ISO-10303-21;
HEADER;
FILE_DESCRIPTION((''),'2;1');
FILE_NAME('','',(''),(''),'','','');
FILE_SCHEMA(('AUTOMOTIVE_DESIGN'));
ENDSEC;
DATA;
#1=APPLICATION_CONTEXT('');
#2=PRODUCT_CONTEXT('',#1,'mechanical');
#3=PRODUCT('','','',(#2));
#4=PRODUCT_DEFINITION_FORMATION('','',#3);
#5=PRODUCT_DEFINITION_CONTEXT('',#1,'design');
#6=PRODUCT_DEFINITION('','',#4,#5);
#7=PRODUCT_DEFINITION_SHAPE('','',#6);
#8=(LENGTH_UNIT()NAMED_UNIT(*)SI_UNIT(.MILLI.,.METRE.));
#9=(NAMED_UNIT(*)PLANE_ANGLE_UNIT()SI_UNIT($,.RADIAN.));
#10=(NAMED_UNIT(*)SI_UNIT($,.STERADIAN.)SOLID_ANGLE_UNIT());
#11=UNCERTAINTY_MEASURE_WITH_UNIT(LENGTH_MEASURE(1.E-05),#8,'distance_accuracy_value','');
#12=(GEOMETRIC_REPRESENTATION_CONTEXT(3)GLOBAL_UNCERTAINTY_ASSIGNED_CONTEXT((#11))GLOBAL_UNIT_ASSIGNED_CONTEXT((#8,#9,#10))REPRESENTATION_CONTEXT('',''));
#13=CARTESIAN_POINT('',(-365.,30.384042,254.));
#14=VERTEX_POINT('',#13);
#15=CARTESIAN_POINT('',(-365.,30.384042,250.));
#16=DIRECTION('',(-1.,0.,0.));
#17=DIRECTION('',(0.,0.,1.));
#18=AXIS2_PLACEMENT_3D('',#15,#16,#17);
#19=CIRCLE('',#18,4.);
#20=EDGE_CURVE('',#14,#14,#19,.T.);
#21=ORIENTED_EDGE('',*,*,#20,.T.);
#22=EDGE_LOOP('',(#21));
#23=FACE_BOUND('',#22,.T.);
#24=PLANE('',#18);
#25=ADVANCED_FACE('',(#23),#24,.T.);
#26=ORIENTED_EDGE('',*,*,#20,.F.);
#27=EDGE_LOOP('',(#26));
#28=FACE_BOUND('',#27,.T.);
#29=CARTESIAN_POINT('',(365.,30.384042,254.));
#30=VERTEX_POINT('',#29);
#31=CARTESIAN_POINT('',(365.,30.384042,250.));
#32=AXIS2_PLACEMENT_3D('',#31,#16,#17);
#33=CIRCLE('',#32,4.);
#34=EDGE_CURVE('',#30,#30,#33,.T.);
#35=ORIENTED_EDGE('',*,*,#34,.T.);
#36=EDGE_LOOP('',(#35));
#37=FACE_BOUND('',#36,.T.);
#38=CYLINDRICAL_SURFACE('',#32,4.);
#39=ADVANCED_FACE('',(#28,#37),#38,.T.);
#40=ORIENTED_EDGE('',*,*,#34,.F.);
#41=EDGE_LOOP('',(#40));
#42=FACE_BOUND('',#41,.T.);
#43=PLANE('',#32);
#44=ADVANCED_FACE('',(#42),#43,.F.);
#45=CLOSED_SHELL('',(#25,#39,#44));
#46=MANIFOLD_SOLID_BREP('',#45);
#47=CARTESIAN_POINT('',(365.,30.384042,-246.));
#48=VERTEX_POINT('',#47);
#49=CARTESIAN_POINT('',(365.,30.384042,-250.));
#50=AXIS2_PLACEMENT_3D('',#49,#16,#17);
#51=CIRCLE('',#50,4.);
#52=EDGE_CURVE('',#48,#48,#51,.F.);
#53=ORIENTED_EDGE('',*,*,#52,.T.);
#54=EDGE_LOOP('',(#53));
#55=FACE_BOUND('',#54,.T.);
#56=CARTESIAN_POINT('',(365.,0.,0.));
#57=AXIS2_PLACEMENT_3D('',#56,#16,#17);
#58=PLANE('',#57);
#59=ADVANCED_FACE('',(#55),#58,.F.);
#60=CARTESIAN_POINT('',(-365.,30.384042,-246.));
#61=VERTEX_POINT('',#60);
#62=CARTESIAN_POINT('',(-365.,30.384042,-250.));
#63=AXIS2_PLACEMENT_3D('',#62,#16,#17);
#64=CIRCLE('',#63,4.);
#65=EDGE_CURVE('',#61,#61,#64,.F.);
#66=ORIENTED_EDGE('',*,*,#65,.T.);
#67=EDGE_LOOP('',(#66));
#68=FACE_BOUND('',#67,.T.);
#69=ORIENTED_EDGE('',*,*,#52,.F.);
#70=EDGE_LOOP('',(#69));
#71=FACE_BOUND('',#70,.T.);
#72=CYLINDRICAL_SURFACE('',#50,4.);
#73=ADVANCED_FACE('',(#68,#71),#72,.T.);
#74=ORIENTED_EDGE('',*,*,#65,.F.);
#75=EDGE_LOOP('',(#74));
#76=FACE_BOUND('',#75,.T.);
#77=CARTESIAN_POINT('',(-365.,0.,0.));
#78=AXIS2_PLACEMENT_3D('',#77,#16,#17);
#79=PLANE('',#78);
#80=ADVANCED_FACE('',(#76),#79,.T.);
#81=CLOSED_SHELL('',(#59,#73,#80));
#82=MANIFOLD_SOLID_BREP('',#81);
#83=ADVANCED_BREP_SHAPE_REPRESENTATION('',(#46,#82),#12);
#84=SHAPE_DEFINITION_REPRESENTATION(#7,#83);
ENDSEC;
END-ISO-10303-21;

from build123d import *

# Parameters (mm, degrees)
BOSS_EXTRUDE1_DEPTH   = 265
BOSS_EXTRUDE1_2_DEPTH = 265
BOSS_EXTRUDE2_DEPTH   = 335
SKETCH16_R            = 4
BOSS_EXTRUDE3_DEPTH   = 730
BOSS_EXTRUDE3_2_DEPTH = 730


with BuildPart() as part:
    # Sketch13 → Boss-Extrude1 (new, symmetric)
    with BuildSketch(Plane.XY):
        with BuildLine():
            Line((356.00446543, 0.899999619), (355.484852164, 0))
            Line((355.484852164, 0), (356.00446543, -0.899999619))
            Line((356.00446543, -0.899999619), (356.00446543, -4.204465866))
            Line((356.00446543, -4.204465866), (360.049999564, -8.25))
            Line((360.049999564, -8.25), (362.59999928, -8.25))
            ThreePointArc((362.59999928, -8.25), (362.741420837, -8.191421273), (362.799999564, -8.049999716))
            Line((362.799999564, -8.049999716), (362.799999564, -4.649999613))
            ThreePointArc((362.799999564, -4.649999613), (362.975735606, -4.225735278), (363.39999994, -4.049999237))
            Line((363.39999994, -4.049999237), (364.300000043, -4.049999237))
            ThreePointArc((364.300000043, -4.049999237), (364.4414216, -4.108577964), (364.500000327, -4.249999521))
            Line((364.500000327, -4.249999521), (364.500000327, -4.349998953))
            ThreePointArc((364.500000327, -4.349998953), (364.558579054, -4.49142051), (364.700000611, -4.549999237))
            Line((364.700000611, -4.549999237), (364.799999716, -4.549999237))
            ThreePointArc((364.799999716, -4.549999237), (364.941421273, -4.608577964), (365, -4.749999521))
            Line((365, -4.749999521), (365, -13.000000346))
            ThreePointArc((365, -13.000000346), (364.414213664, -14.414213664), (363.000000346, -15))
            Line((363.000000346, -15), (354.749999945, -15))
            ThreePointArc((354.749999945, -15), (354.60857832, -14.941421245), (354.549999564, -14.799999619))
            Line((354.549999564, -14.799999619), (354.549999564, -14.69999942))
            ThreePointArc((354.549999564, -14.69999942), (354.49142109, -14.558578474), (354.350000144, -14.5))
            Line((354.350000144, -14.5), (354.250000374, -14.5))
            ThreePointArc((354.250000374, -14.5), (354.108578753, -14.441421247), (354.05, -14.299999626))
            Line((354.05, -14.299999626), (354.05, -13.399999434))
            ThreePointArc((354.05, -13.399999434), (354.225735989, -12.975735226), (354.650000197, -12.799999237))
            Line((354.650000197, -12.799999237), (358.049999924, -12.799999237))
            ThreePointArc((358.049999924, -12.799999237), (358.191421565, -12.741420475), (358.250000327, -12.599998834))
            Line((358.250000327, -12.599998834), (358.250000327, -10.049999237))
            Line((358.250000327, -10.049999237), (354.204466193, -6))
            Line((354.204466193, -6), (350.899999946, -6))
            Line((350.899999946, -6), (350, -5.484851837))
            Line((350, -5.484851837), (349.100000054, -6))
            Line((349.100000054, -6), (345.795533807, -6))
            Line((345.795533807, -6), (341.749999673, -10.049999237))
            Line((341.749999673, -10.049999237), (341.749999673, -12.599998834))
            ThreePointArc((341.749999673, -12.599998834), (341.808578435, -12.741420475), (341.950000076, -12.799999237))
            Line((341.950000076, -12.799999237), (345.349999803, -12.799999237))
            ThreePointArc((345.349999803, -12.799999237), (345.774264011, -12.975735226), (345.95, -13.399999434))
            Line((345.95, -13.399999434), (345.95, -14.299999626))
            ThreePointArc((345.95, -14.299999626), (345.891421247, -14.441421247), (345.749999626, -14.5))
            Line((345.749999626, -14.5), (345.649999856, -14.5))
            ThreePointArc((345.649999856, -14.5), (345.50857891, -14.558578474), (345.450000436, -14.69999942))
            Line((345.450000436, -14.69999942), (345.450000436, -14.799999619))
            ThreePointArc((345.450000436, -14.799999619), (345.39142168, -14.941421245), (345.250000055, -15))
            Line((345.250000055, -15), (336.999999654, -15))
            ThreePointArc((336.999999654, -15), (335.585786336, -14.414213664), (335, -13.000000346))
            Line((335, -13.000000346), (335, -4.749999521))
            ThreePointArc((335, -4.749999521), (335.058578727, -4.608577964), (335.200000284, -4.549999237))
            Line((335.200000284, -4.549999237), (335.299999389, -4.549999237))
            ThreePointArc((335.299999389, -4.549999237), (335.441420946, -4.49142051), (335.499999673, -4.349998953))
            Line((335.499999673, -4.349998953), (335.499999673, -4.249999521))
            ThreePointArc((335.499999673, -4.249999521), (335.5585784, -4.108577964), (335.699999957, -4.049999237))
            Line((335.699999957, -4.049999237), (336.60000006, -4.049999237))
            ThreePointArc((336.60000006, -4.049999237), (337.024264394, -4.225735278), (337.200000436, -4.649999613))
            Line((337.200000436, -4.649999613), (337.200000436, -8.049999716))
            ThreePointArc((337.200000436, -8.049999716), (337.258579163, -8.191421273), (337.40000072, -8.25))
            Line((337.40000072, -8.25), (339.950000436, -8.25))
            Line((339.950000436, -8.25), (343.99553457, -4.204465866))
            Line((343.99553457, -4.204465866), (343.99553457, -0.899999619))
            Line((343.99553457, -0.899999619), (344.515147836, 0))
            Line((344.515147836, 0), (343.99553457, 0.899999619))
            Line((343.99553457, 0.899999619), (343.99553457, 4.204465866))
            Line((343.99553457, 4.204465866), (339.950000436, 8.25))
            Line((339.950000436, 8.25), (337.40000072, 8.25))
            ThreePointArc((337.40000072, 8.25), (337.258579163, 8.191421273), (337.200000436, 8.049999716))
            Line((337.200000436, 8.049999716), (337.200000436, 4.649999613))
            ThreePointArc((337.200000436, 4.649999613), (337.024264394, 4.225735278), (336.60000006, 4.049999237))
            Line((336.60000006, 4.049999237), (335.699999957, 4.049999237))
            ThreePointArc((335.699999957, 4.049999237), (335.5585784, 4.108577964), (335.499999673, 4.249999521))
            Line((335.499999673, 4.249999521), (335.499999673, 4.349998953))
            ThreePointArc((335.499999673, 4.349998953), (335.441420946, 4.49142051), (335.299999389, 4.549999237))
            Line((335.299999389, 4.549999237), (335.200000284, 4.549999237))
            ThreePointArc((335.200000284, 4.549999237), (335.058578727, 4.608577964), (335, 4.749999521))
            Line((335, 4.749999521), (335, 13.000000346))
            ThreePointArc((335, 13.000000346), (335.585786336, 14.414213664), (336.999999654, 15))
            Line((336.999999654, 15), (345.250000055, 15))
            ThreePointArc((345.250000055, 15), (345.39142168, 14.941421245), (345.450000436, 14.799999619))
            Line((345.450000436, 14.799999619), (345.450000436, 14.69999942))
            ThreePointArc((345.450000436, 14.69999942), (345.50857891, 14.558578474), (345.649999856, 14.5))
            Line((345.649999856, 14.5), (345.749999626, 14.5))
            ThreePointArc((345.749999626, 14.5), (345.891421247, 14.441421247), (345.95, 14.299999626))
            Line((345.95, 14.299999626), (345.95, 13.399999434))
            ThreePointArc((345.95, 13.399999434), (345.774264011, 12.975735226), (345.349999803, 12.799999237))
            Line((345.349999803, 12.799999237), (341.950000076, 12.799999237))
            ThreePointArc((341.950000076, 12.799999237), (341.808578435, 12.741420475), (341.749999673, 12.599998834))
            Line((341.749999673, 12.599998834), (341.749999673, 10.049999237))
            Line((341.749999673, 10.049999237), (345.795533807, 6))
            Line((345.795533807, 6), (349.100000054, 6))
            Line((349.100000054, 6), (350, 5.484851837))
            Line((350, 5.484851837), (350.899999946, 6))
            Line((350.899999946, 6), (354.204466193, 6))
            Line((354.204466193, 6), (358.250000327, 10.049999237))
            Line((358.250000327, 10.049999237), (358.250000327, 12.599998834))
            ThreePointArc((358.250000327, 12.599998834), (358.191421565, 12.741420475), (358.049999924, 12.799999237))
            Line((358.049999924, 12.799999237), (354.650000197, 12.799999237))
            ThreePointArc((354.650000197, 12.799999237), (354.225735989, 12.975735226), (354.05, 13.399999434))
            Line((354.05, 13.399999434), (354.05, 14.299999626))
            ThreePointArc((354.05, 14.299999626), (354.108578753, 14.441421247), (354.250000374, 14.5))
            Line((354.250000374, 14.5), (354.350000144, 14.5))
            ThreePointArc((354.350000144, 14.5), (354.49142109, 14.558578474), (354.549999564, 14.69999942))
            Line((354.549999564, 14.69999942), (354.549999564, 14.799999619))
            ThreePointArc((354.549999564, 14.799999619), (354.60857832, 14.941421245), (354.749999945, 15))
            Line((354.749999945, 15), (363.000000346, 15))
            ThreePointArc((363.000000346, 15), (364.414213664, 14.414213664), (365, 13.000000346))
            Line((365, 13.000000346), (365, 4.749999521))
            ThreePointArc((365, 4.749999521), (364.941421273, 4.608577964), (364.799999716, 4.549999237))
            Line((364.799999716, 4.549999237), (364.700000611, 4.549999237))
            ThreePointArc((364.700000611, 4.549999237), (364.558579054, 4.49142051), (364.500000327, 4.349998953))
            Line((364.500000327, 4.349998953), (364.500000327, 4.249999521))
            ThreePointArc((364.500000327, 4.249999521), (364.4414216, 4.108577964), (364.300000043, 4.049999237))
            Line((364.300000043, 4.049999237), (363.39999994, 4.049999237))
            ThreePointArc((363.39999994, 4.049999237), (362.975735606, 4.225735278), (362.799999564, 4.649999613))
            Line((362.799999564, 4.649999613), (362.799999564, 8.049999716))
            ThreePointArc((362.799999564, 8.049999716), (362.741420837, 8.191421273), (362.59999928, 8.25))
            Line((362.59999928, 8.25), (360.049999564, 8.25))
            Line((360.049999564, 8.25), (356.00446543, 4.204465866))
            Line((356.00446543, 4.204465866), (356.00446543, 0.899999619))
        make_face()
        with BuildLine():
            Line((363.70000109, 12.700000408), (363.70000109, 10.499999626))
            ThreePointArc((363.70000109, 10.499999626), (363.407107874, 9.792892851), (362.7000011, 9.499999635))
            Line((362.7000011, 9.499999635), (360.500000318, 9.499999635))
            ThreePointArc((360.500000318, 9.499999635), (359.792893543, 9.792892851), (359.500000327, 10.499999626))
            Line((359.500000327, 10.499999626), (359.500000327, 12.700000408))
            ThreePointArc((359.500000327, 12.700000408), (359.792893543, 13.407107182), (360.500000318, 13.700000398))
            Line((360.500000318, 13.700000398), (362.7000011, 13.700000398))
            ThreePointArc((362.7000011, 13.700000398), (363.407107874, 13.407107182), (363.70000109, 12.700000408))
        make_face(mode=Mode.SUBTRACT)
        with BuildLine():
            Line((353.135929412, 4.518400903), (351.600129524, 3.280561767))
            ThreePointArc((351.600129524, 3.280561767), (350, 3.65), (348.399870476, 3.280561767))
            Line((348.399870476, 3.280561767), (346.864070588, 4.518400903))
            ThreePointArc((346.864070588, 4.518400903), (346.118997741, 3.897155561), (345.494663108, 3.154669473))
            Line((345.494663108, 3.154669473), (346.719438268, 1.600129597))
            ThreePointArc((346.719438268, 1.600129597), (346.35, 0), (346.719438268, -1.600129597))
            Line((346.719438268, -1.600129597), (345.494663108, -3.154669473))
            ThreePointArc((345.494663108, -3.154669473), (346.118997741, -3.897155561), (346.864070588, -4.518400903))
            Line((346.864070588, -4.518400903), (348.399870476, -3.280561767))
            ThreePointArc((348.399870476, -3.280561767), (350, -3.65), (351.600129524, -3.280561767))
            Line((351.600129524, -3.280561767), (353.135929412, -4.518400903))
            ThreePointArc((353.135929412, -4.518400903), (353.881002259, -3.897155561), (354.505336892, -3.154669473))
            Line((354.505336892, -3.154669473), (353.280561732, -1.600129597))
            ThreePointArc((353.280561732, -1.600129597), (353.65, 0), (353.280561732, 1.600129597))
            Line((353.280561732, 1.600129597), (354.505336892, 3.154669473))
            ThreePointArc((354.505336892, 3.154669473), (353.881002259, 3.897155561), (353.135929412, 4.518400903))
        make_face(mode=Mode.SUBTRACT)
        with BuildLine():
            Line((336.29999891, -12.700000408), (336.29999891, -10.499999626))
            ThreePointArc((336.29999891, -10.499999626), (336.592892126, -9.792892851), (337.2999989, -9.499999635))
            Line((337.2999989, -9.499999635), (339.499999682, -9.499999635))
            ThreePointArc((339.499999682, -9.499999635), (340.207106457, -9.792892851), (340.499999673, -10.499999626))
            Line((340.499999673, -10.499999626), (340.499999673, -12.700000408))
            ThreePointArc((340.499999673, -12.700000408), (340.207106457, -13.407107182), (339.499999682, -13.700000398))
            Line((339.499999682, -13.700000398), (337.2999989, -13.700000398))
            ThreePointArc((337.2999989, -13.700000398), (336.592892126, -13.407107182), (336.29999891, -12.700000408))
        make_face(mode=Mode.SUBTRACT)
        with BuildLine():
            Line((360.500000318, -13.700000398), (362.7000011, -13.700000398))
            ThreePointArc((362.7000011, -13.700000398), (363.407107874, -13.407107182), (363.70000109, -12.700000408))
            Line((363.70000109, -12.700000408), (363.70000109, -10.499999626))
            ThreePointArc((363.70000109, -10.499999626), (363.407107874, -9.792892851), (362.7000011, -9.499999635))
            Line((362.7000011, -9.499999635), (360.500000318, -9.499999635))
            ThreePointArc((360.500000318, -9.499999635), (359.792893543, -9.792892851), (359.500000327, -10.499999626))
            Line((359.500000327, -10.499999626), (359.500000327, -12.700000408))
            ThreePointArc((359.500000327, -12.700000408), (359.792893543, -13.407107182), (360.500000318, -13.700000398))
        make_face(mode=Mode.SUBTRACT)
        with BuildLine():
            Line((339.499999682, 13.700000398), (337.2999989, 13.700000398))
            ThreePointArc((337.2999989, 13.700000398), (336.592892126, 13.407107182), (336.29999891, 12.700000408))
            Line((336.29999891, 12.700000408), (336.29999891, 10.499999626))
            ThreePointArc((336.29999891, 10.499999626), (336.592892126, 9.792892851), (337.2999989, 9.499999635))
            Line((337.2999989, 9.499999635), (339.499999682, 9.499999635))
            ThreePointArc((339.499999682, 9.499999635), (340.207106457, 9.792892851), (340.499999673, 10.499999626))
            Line((340.499999673, 10.499999626), (340.499999673, 12.700000408))
            ThreePointArc((340.499999673, 12.700000408), (340.207106457, 13.407107182), (339.499999682, 13.700000398))
        make_face(mode=Mode.SUBTRACT)
    extrude(amount=BOSS_EXTRUDE1_DEPTH, both=True)



with BuildPart() as body_2:
    # Sketch13 → Boss-Extrude1 2 (new, symmetric)
    with BuildSketch(Plane.XY):
        with BuildLine():
            Line((-337.40000072, 8.25), (-339.950000436, 8.25))
            Line((-339.950000436, 8.25), (-343.99553457, 4.204465866))
            Line((-343.99553457, 4.204465866), (-343.99553457, 0.899999619))
            Line((-343.99553457, 0.899999619), (-344.515147836, 0))
            Line((-344.515147836, 0), (-343.99553457, -0.899999619))
            Line((-343.99553457, -0.899999619), (-343.99553457, -4.204465866))
            Line((-343.99553457, -4.204465866), (-339.950000436, -8.25))
            Line((-339.950000436, -8.25), (-337.40000072, -8.25))
            ThreePointArc((-337.40000072, -8.25), (-337.258579163, -8.191421273), (-337.200000436, -8.049999716))
            Line((-337.200000436, -8.049999716), (-337.200000436, -4.649999613))
            ThreePointArc((-337.200000436, -4.649999613), (-337.024264394, -4.225735278), (-336.60000006, -4.049999237))
            Line((-336.60000006, -4.049999237), (-335.699999957, -4.049999237))
            ThreePointArc((-335.699999957, -4.049999237), (-335.5585784, -4.108577964), (-335.499999673, -4.249999521))
            Line((-335.499999673, -4.249999521), (-335.499999673, -4.349998953))
            ThreePointArc((-335.499999673, -4.349998953), (-335.441420946, -4.49142051), (-335.299999389, -4.549999237))
            Line((-335.299999389, -4.549999237), (-335.200000284, -4.549999237))
            ThreePointArc((-335.200000284, -4.549999237), (-335.058578727, -4.608577964), (-335, -4.749999521))
            Line((-335, -4.749999521), (-335, -13.000000346))
            ThreePointArc((-335, -13.000000346), (-335.585786336, -14.414213664), (-336.999999654, -15))
            Line((-336.999999654, -15), (-345.250000055, -15))
            ThreePointArc((-345.250000055, -15), (-345.39142168, -14.941421245), (-345.450000436, -14.799999619))
            Line((-345.450000436, -14.799999619), (-345.450000436, -14.69999942))
            ThreePointArc((-345.450000436, -14.69999942), (-345.50857891, -14.558578474), (-345.649999856, -14.5))
            Line((-345.649999856, -14.5), (-345.749999626, -14.5))
            ThreePointArc((-345.749999626, -14.5), (-345.891421247, -14.441421247), (-345.95, -14.299999626))
            Line((-345.95, -14.299999626), (-345.95, -13.399999434))
            ThreePointArc((-345.95, -13.399999434), (-345.774264011, -12.975735226), (-345.349999803, -12.799999237))
            Line((-345.349999803, -12.799999237), (-341.950000076, -12.799999237))
            ThreePointArc((-341.950000076, -12.799999237), (-341.808578435, -12.741420475), (-341.749999673, -12.599998834))
            Line((-341.749999673, -12.599998834), (-341.749999673, -10.049999237))
            Line((-341.749999673, -10.049999237), (-345.795533807, -6))
            Line((-345.795533807, -6), (-349.100000054, -6))
            Line((-349.100000054, -6), (-350, -5.484851837))
            Line((-350, -5.484851837), (-350.899999946, -6))
            Line((-350.899999946, -6), (-354.204466193, -6))
            Line((-354.204466193, -6), (-358.250000327, -10.049999237))
            Line((-358.250000327, -10.049999237), (-358.250000327, -12.599998834))
            ThreePointArc((-358.250000327, -12.599998834), (-358.191421565, -12.741420475), (-358.049999924, -12.799999237))
            Line((-358.049999924, -12.799999237), (-354.650000197, -12.799999237))
            ThreePointArc((-354.650000197, -12.799999237), (-354.225735989, -12.975735226), (-354.05, -13.399999434))
            Line((-354.05, -13.399999434), (-354.05, -14.299999626))
            ThreePointArc((-354.05, -14.299999626), (-354.108578753, -14.441421247), (-354.250000374, -14.5))
            Line((-354.250000374, -14.5), (-354.350000144, -14.5))
            ThreePointArc((-354.350000144, -14.5), (-354.49142109, -14.558578474), (-354.549999564, -14.69999942))
            Line((-354.549999564, -14.69999942), (-354.549999564, -14.799999619))
            ThreePointArc((-354.549999564, -14.799999619), (-354.60857832, -14.941421245), (-354.749999945, -15))
            Line((-354.749999945, -15), (-363.000000346, -15))
            ThreePointArc((-363.000000346, -15), (-364.414213664, -14.414213664), (-365, -13.000000346))
            Line((-365, -13.000000346), (-365, -4.749999521))
            ThreePointArc((-365, -4.749999521), (-364.941421273, -4.608577964), (-364.799999716, -4.549999237))
            Line((-364.799999716, -4.549999237), (-364.700000611, -4.549999237))
            ThreePointArc((-364.700000611, -4.549999237), (-364.558579054, -4.49142051), (-364.500000327, -4.349998953))
            Line((-364.500000327, -4.349998953), (-364.500000327, -4.249999521))
            ThreePointArc((-364.500000327, -4.249999521), (-364.4414216, -4.108577964), (-364.300000043, -4.049999237))
            Line((-364.300000043, -4.049999237), (-363.39999994, -4.049999237))
            ThreePointArc((-363.39999994, -4.049999237), (-362.975735606, -4.225735278), (-362.799999564, -4.649999613))
            Line((-362.799999564, -4.649999613), (-362.799999564, -8.049999716))
            ThreePointArc((-362.799999564, -8.049999716), (-362.741420837, -8.191421273), (-362.59999928, -8.25))
            Line((-362.59999928, -8.25), (-360.049999564, -8.25))
            Line((-360.049999564, -8.25), (-356.00446543, -4.204465866))
            Line((-356.00446543, -4.204465866), (-356.00446543, -0.899999619))
            Line((-356.00446543, -0.899999619), (-355.484852164, 0))
            Line((-355.484852164, 0), (-356.00446543, 0.899999619))
            Line((-356.00446543, 0.899999619), (-356.00446543, 4.204465866))
            Line((-356.00446543, 4.204465866), (-360.049999564, 8.25))
            Line((-360.049999564, 8.25), (-362.59999928, 8.25))
            ThreePointArc((-362.59999928, 8.25), (-362.741420837, 8.191421273), (-362.799999564, 8.049999716))
            Line((-362.799999564, 8.049999716), (-362.799999564, 4.649999613))
            ThreePointArc((-362.799999564, 4.649999613), (-362.975735606, 4.225735278), (-363.39999994, 4.049999237))
            Line((-363.39999994, 4.049999237), (-364.300000043, 4.049999237))
            ThreePointArc((-364.300000043, 4.049999237), (-364.4414216, 4.108577964), (-364.500000327, 4.249999521))
            Line((-364.500000327, 4.249999521), (-364.500000327, 4.349998953))
            ThreePointArc((-364.500000327, 4.349998953), (-364.558579054, 4.49142051), (-364.700000611, 4.549999237))
            Line((-364.700000611, 4.549999237), (-364.799999716, 4.549999237))
            ThreePointArc((-364.799999716, 4.549999237), (-364.941421273, 4.608577964), (-365, 4.749999521))
            Line((-365, 4.749999521), (-365, 13.000000346))
            ThreePointArc((-365, 13.000000346), (-364.414213664, 14.414213664), (-363.000000346, 15))
            Line((-363.000000346, 15), (-354.749999945, 15))
            ThreePointArc((-354.749999945, 15), (-354.60857832, 14.941421245), (-354.549999564, 14.799999619))
            Line((-354.549999564, 14.799999619), (-354.549999564, 14.69999942))
            ThreePointArc((-354.549999564, 14.69999942), (-354.49142109, 14.558578474), (-354.350000144, 14.5))
            Line((-354.350000144, 14.5), (-354.250000374, 14.5))
            ThreePointArc((-354.250000374, 14.5), (-354.108578753, 14.441421247), (-354.05, 14.299999626))
            Line((-354.05, 14.299999626), (-354.05, 13.399999434))
            ThreePointArc((-354.05, 13.399999434), (-354.225735989, 12.975735226), (-354.650000197, 12.799999237))
            Line((-354.650000197, 12.799999237), (-358.049999924, 12.799999237))
            ThreePointArc((-358.049999924, 12.799999237), (-358.191421565, 12.741420475), (-358.250000327, 12.599998834))
            Line((-358.250000327, 12.599998834), (-358.250000327, 10.049999237))
            Line((-358.250000327, 10.049999237), (-354.204466193, 6))
            Line((-354.204466193, 6), (-350.899999946, 6))
            Line((-350.899999946, 6), (-350, 5.484851837))
            Line((-350, 5.484851837), (-349.100000054, 6))
            Line((-349.100000054, 6), (-345.795533807, 6))
            Line((-345.795533807, 6), (-341.749999673, 10.049999237))
            Line((-341.749999673, 10.049999237), (-341.749999673, 12.599998834))
            ThreePointArc((-341.749999673, 12.599998834), (-341.808578435, 12.741420475), (-341.950000076, 12.799999237))
            Line((-341.950000076, 12.799999237), (-345.349999803, 12.799999237))
            ThreePointArc((-345.349999803, 12.799999237), (-345.774264011, 12.975735226), (-345.95, 13.399999434))
            Line((-345.95, 13.399999434), (-345.95, 14.299999626))
            ThreePointArc((-345.95, 14.299999626), (-345.891421247, 14.441421247), (-345.749999626, 14.5))
            Line((-345.749999626, 14.5), (-345.649999856, 14.5))
            ThreePointArc((-345.649999856, 14.5), (-345.50857891, 14.558578474), (-345.450000436, 14.69999942))
            Line((-345.450000436, 14.69999942), (-345.450000436, 14.799999619))
            ThreePointArc((-345.450000436, 14.799999619), (-345.39142168, 14.941421245), (-345.250000055, 15))
            Line((-345.250000055, 15), (-336.999999654, 15))
            ThreePointArc((-336.999999654, 15), (-335.585786336, 14.414213664), (-335, 13.000000346))
            Line((-335, 13.000000346), (-335, 4.749999521))
            ThreePointArc((-335, 4.749999521), (-335.058578727, 4.608577964), (-335.200000284, 4.549999237))
            Line((-335.200000284, 4.549999237), (-335.299999389, 4.549999237))
            ThreePointArc((-335.299999389, 4.549999237), (-335.441420946, 4.49142051), (-335.499999673, 4.349998953))
            Line((-335.499999673, 4.349998953), (-335.499999673, 4.249999521))
            ThreePointArc((-335.499999673, 4.249999521), (-335.5585784, 4.108577964), (-335.699999957, 4.049999237))
            Line((-335.699999957, 4.049999237), (-336.60000006, 4.049999237))
            ThreePointArc((-336.60000006, 4.049999237), (-337.024264394, 4.225735278), (-337.200000436, 4.649999613))
            Line((-337.200000436, 4.649999613), (-337.200000436, 8.049999716))
            ThreePointArc((-337.200000436, 8.049999716), (-337.258579163, 8.191421273), (-337.40000072, 8.25))
        make_face()
        with BuildLine():
            Line((-336.29999891, -12.700000408), (-336.29999891, -10.499999626))
            ThreePointArc((-336.29999891, -10.499999626), (-336.592892126, -9.792892851), (-337.2999989, -9.499999635))
            Line((-337.2999989, -9.499999635), (-339.499999682, -9.499999635))
            ThreePointArc((-339.499999682, -9.499999635), (-340.207106457, -9.792892851), (-340.499999673, -10.499999626))
            Line((-340.499999673, -10.499999626), (-340.499999673, -12.700000408))
            ThreePointArc((-340.499999673, -12.700000408), (-340.207106457, -13.407107182), (-339.499999682, -13.700000398))
            Line((-339.499999682, -13.700000398), (-337.2999989, -13.700000398))
            ThreePointArc((-337.2999989, -13.700000398), (-336.592892126, -13.407107182), (-336.29999891, -12.700000408))
        make_face(mode=Mode.SUBTRACT)
        with BuildLine():
            Line((-346.719438268, 1.600129597), (-345.494663108, 3.154669473))
            ThreePointArc((-345.494663108, 3.154669473), (-346.118997741, 3.897155561), (-346.864070588, 4.518400903))
            Line((-346.864070588, 4.518400903), (-348.399870476, 3.280561767))
            ThreePointArc((-348.399870476, 3.280561767), (-350, 3.65), (-351.600129524, 3.280561767))
            Line((-351.600129524, 3.280561767), (-353.135929412, 4.518400903))
            ThreePointArc((-353.135929412, 4.518400903), (-353.881002259, 3.897155561), (-354.505336892, 3.154669473))
            Line((-354.505336892, 3.154669473), (-353.280561732, 1.600129597))
            ThreePointArc((-353.280561732, 1.600129597), (-353.65, 0), (-353.280561732, -1.600129597))
            Line((-353.280561732, -1.600129597), (-354.505336892, -3.154669473))
            ThreePointArc((-354.505336892, -3.154669473), (-353.881002259, -3.897155561), (-353.135929412, -4.518400903))
            Line((-353.135929412, -4.518400903), (-351.600129524, -3.280561767))
            ThreePointArc((-351.600129524, -3.280561767), (-350, -3.65), (-348.399870476, -3.280561767))
            Line((-348.399870476, -3.280561767), (-346.864070588, -4.518400903))
            ThreePointArc((-346.864070588, -4.518400903), (-346.118997741, -3.897155561), (-345.494663108, -3.154669473))
            Line((-345.494663108, -3.154669473), (-346.719438268, -1.600129597))
            ThreePointArc((-346.719438268, -1.600129597), (-346.35, 0), (-346.719438268, 1.600129597))
        make_face(mode=Mode.SUBTRACT)
        with BuildLine():
            Line((-336.29999891, 12.700000408), (-336.29999891, 10.499999626))
            ThreePointArc((-336.29999891, 10.499999626), (-336.592892126, 9.792892851), (-337.2999989, 9.499999635))
            Line((-337.2999989, 9.499999635), (-339.499999682, 9.499999635))
            ThreePointArc((-339.499999682, 9.499999635), (-340.207106457, 9.792892851), (-340.499999673, 10.499999626))
            Line((-340.499999673, 10.499999626), (-340.499999673, 12.700000408))
            ThreePointArc((-340.499999673, 12.700000408), (-340.207106457, 13.407107182), (-339.499999682, 13.700000398))
            Line((-339.499999682, 13.700000398), (-337.2999989, 13.700000398))
            ThreePointArc((-337.2999989, 13.700000398), (-336.592892126, 13.407107182), (-336.29999891, 12.700000408))
        make_face(mode=Mode.SUBTRACT)
        with BuildLine():
            Line((-359.500000327, -12.700000408), (-359.500000327, -10.499999626))
            ThreePointArc((-359.500000327, -10.499999626), (-359.792893543, -9.792892851), (-360.500000318, -9.499999635))
            Line((-360.500000318, -9.499999635), (-362.7000011, -9.499999635))
            ThreePointArc((-362.7000011, -9.499999635), (-363.407107874, -9.792892851), (-363.70000109, -10.499999626))
            Line((-363.70000109, -10.499999626), (-363.70000109, -12.700000408))
            ThreePointArc((-363.70000109, -12.700000408), (-363.407107874, -13.407107182), (-362.7000011, -13.700000398))
            Line((-362.7000011, -13.700000398), (-360.500000318, -13.700000398))
            ThreePointArc((-360.500000318, -13.700000398), (-359.792893543, -13.407107182), (-359.500000327, -12.700000408))
        make_face(mode=Mode.SUBTRACT)
        with BuildLine():
            Line((-363.70000109, 12.700000408), (-363.70000109, 10.499999626))
            ThreePointArc((-363.70000109, 10.499999626), (-363.407107874, 9.792892851), (-362.7000011, 9.499999635))
            Line((-362.7000011, 9.499999635), (-360.500000318, 9.499999635))
            ThreePointArc((-360.500000318, 9.499999635), (-359.792893543, 9.792892851), (-359.500000327, 10.499999626))
            Line((-359.500000327, 10.499999626), (-359.500000327, 12.700000408))
            ThreePointArc((-359.500000327, 12.700000408), (-359.792893543, 13.407107182), (-360.500000318, 13.700000398))
            Line((-360.500000318, 13.700000398), (-362.7000011, 13.700000398))
            ThreePointArc((-362.7000011, 13.700000398), (-363.407107874, 13.407107182), (-363.70000109, 12.700000408))
        make_face(mode=Mode.SUBTRACT)
    extrude(amount=BOSS_EXTRUDE1_2_DEPTH, both=True)


with BuildPart() as part_1:
    add(part.part)

    add(body_2.part)  # Boss-Extrude2 merges body 2
    # Sketch14 → Boss-Extrude2 (add, symmetric)
    # profile 1 of 2: a face of its own
    with BuildSketch(Plane(origin=(0, 0, 0), x_dir=(0, 0, -1), z_dir=(1, 0, 0))):
        with BuildLine():
            Line((-235.299999389, 4.549999237), (-235.200000284, 4.549999237))
            ThreePointArc((-235.200000284, 4.549999237), (-235.058578727, 4.608577964), (-235, 4.749999521))
            Line((-235, 4.749999521), (-235, 13.000000346))
            ThreePointArc((-235, 13.000000346), (-235.585786336, 14.414213664), (-236.999999654, 15))
            Line((-236.999999654, 15), (-245.250000055, 15))
            ThreePointArc((-245.250000055, 15), (-245.39142168, 14.941421245), (-245.450000436, 14.799999619))
            Line((-245.450000436, 14.799999619), (-245.450000436, 14.69999942))
            ThreePointArc((-245.450000436, 14.69999942), (-245.50857891, 14.558578474), (-245.649999856, 14.5))
            Line((-245.649999856, 14.5), (-245.749999626, 14.5))
            ThreePointArc((-245.749999626, 14.5), (-245.891421247, 14.441421247), (-245.95, 14.299999626))
            Line((-245.95, 14.299999626), (-245.95, 13.399999434))
            ThreePointArc((-245.95, 13.399999434), (-245.774264011, 12.975735226), (-245.349999803, 12.799999237))
            Line((-245.349999803, 12.799999237), (-241.950000076, 12.799999237))
            ThreePointArc((-241.950000076, 12.799999237), (-241.808578435, 12.741420475), (-241.749999673, 12.599998834))
            Line((-241.749999673, 12.599998834), (-241.749999673, 10.049999237))
            Line((-241.749999673, 10.049999237), (-245.795533807, 6))
            Line((-245.795533807, 6), (-249.100000054, 6))
            Line((-249.100000054, 6), (-250, 5.484851837))
            Line((-250, 5.484851837), (-250.899999946, 6))
            Line((-250.899999946, 6), (-254.204466193, 6))
            Line((-254.204466193, 6), (-258.250000327, 10.049999237))
            Line((-258.250000327, 10.049999237), (-258.250000327, 12.599998834))
            ThreePointArc((-258.250000327, 12.599998834), (-258.191421565, 12.741420475), (-258.049999924, 12.799999237))
            Line((-258.049999924, 12.799999237), (-254.650000197, 12.799999237))
            ThreePointArc((-254.650000197, 12.799999237), (-254.225735989, 12.975735226), (-254.05, 13.399999434))
            Line((-254.05, 13.399999434), (-254.05, 14.299999626))
            ThreePointArc((-254.05, 14.299999626), (-254.108578753, 14.441421247), (-254.250000374, 14.5))
            Line((-254.250000374, 14.5), (-254.350000144, 14.5))
            ThreePointArc((-254.350000144, 14.5), (-254.49142109, 14.558578474), (-254.549999564, 14.69999942))
            Line((-254.549999564, 14.69999942), (-254.549999564, 14.799999619))
            ThreePointArc((-254.549999564, 14.799999619), (-254.60857832, 14.941421245), (-254.749999945, 15))
            Line((-254.749999945, 15), (-263.000000346, 15))
            ThreePointArc((-263.000000346, 15), (-264.414213664, 14.414213664), (-265, 13.000000346))
            Line((-265, 13.000000346), (-265, 4.749999521))
            ThreePointArc((-265, 4.749999521), (-264.941421273, 4.608577964), (-264.799999716, 4.549999237))
            Line((-264.799999716, 4.549999237), (-264.700000611, 4.549999237))
            ThreePointArc((-264.700000611, 4.549999237), (-264.558579054, 4.49142051), (-264.500000327, 4.349998953))
            Line((-264.500000327, 4.349998953), (-264.500000327, 4.249999521))
            ThreePointArc((-264.500000327, 4.249999521), (-264.4414216, 4.108577964), (-264.300000043, 4.049999237))
            Line((-264.300000043, 4.049999237), (-263.39999994, 4.049999237))
            ThreePointArc((-263.39999994, 4.049999237), (-262.975735606, 4.225735278), (-262.799999564, 4.649999613))
            Line((-262.799999564, 4.649999613), (-262.799999564, 8.049999716))
            ThreePointArc((-262.799999564, 8.049999716), (-262.741420837, 8.191421273), (-262.59999928, 8.25))
            Line((-262.59999928, 8.25), (-260.049999564, 8.25))
            Line((-260.049999564, 8.25), (-256.00446543, 4.204465866))
            Line((-256.00446543, 4.204465866), (-256.00446543, 0.899999619))
            Line((-256.00446543, 0.899999619), (-255.484852164, 0))
            Line((-255.484852164, 0), (-256.00446543, -0.899999619))
            Line((-256.00446543, -0.899999619), (-256.00446543, -4.204465866))
            Line((-256.00446543, -4.204465866), (-260.049999564, -8.25))
            Line((-260.049999564, -8.25), (-262.59999928, -8.25))
            ThreePointArc((-262.59999928, -8.25), (-262.741420837, -8.191421273), (-262.799999564, -8.049999716))
            Line((-262.799999564, -8.049999716), (-262.799999564, -4.649999613))
            ThreePointArc((-262.799999564, -4.649999613), (-262.975735606, -4.225735278), (-263.39999994, -4.049999237))
            Line((-263.39999994, -4.049999237), (-264.300000043, -4.049999237))
            ThreePointArc((-264.300000043, -4.049999237), (-264.4414216, -4.108577964), (-264.500000327, -4.249999521))
            Line((-264.500000327, -4.249999521), (-264.500000327, -4.349998953))
            ThreePointArc((-264.500000327, -4.349998953), (-264.558579054, -4.49142051), (-264.700000611, -4.549999237))
            Line((-264.700000611, -4.549999237), (-264.799999716, -4.549999237))
            ThreePointArc((-264.799999716, -4.549999237), (-264.941421273, -4.608577964), (-265, -4.749999521))
            Line((-265, -4.749999521), (-265, -13.000000346))
            ThreePointArc((-265, -13.000000346), (-264.414213664, -14.414213664), (-263.000000346, -15))
            Line((-263.000000346, -15), (-254.749999945, -15))
            ThreePointArc((-254.749999945, -15), (-254.60857832, -14.941421245), (-254.549999564, -14.799999619))
            Line((-254.549999564, -14.799999619), (-254.549999564, -14.69999942))
            ThreePointArc((-254.549999564, -14.69999942), (-254.49142109, -14.558578474), (-254.350000144, -14.5))
            Line((-254.350000144, -14.5), (-254.250000374, -14.5))
            ThreePointArc((-254.250000374, -14.5), (-254.108578753, -14.441421247), (-254.05, -14.299999626))
            Line((-254.05, -14.299999626), (-254.05, -13.399999434))
            ThreePointArc((-254.05, -13.399999434), (-254.225735989, -12.975735226), (-254.650000197, -12.799999237))
            Line((-254.650000197, -12.799999237), (-258.049999924, -12.799999237))
            ThreePointArc((-258.049999924, -12.799999237), (-258.191421565, -12.741420475), (-258.250000327, -12.599998834))
            Line((-258.250000327, -12.599998834), (-258.250000327, -10.049999237))
            Line((-258.250000327, -10.049999237), (-254.204466193, -6))
            Line((-254.204466193, -6), (-250.899999946, -6))
            Line((-250.899999946, -6), (-250, -5.484851837))
            Line((-250, -5.484851837), (-249.100000054, -6))
            Line((-249.100000054, -6), (-245.795533807, -6))
            Line((-245.795533807, -6), (-241.749999673, -10.049999237))
            Line((-241.749999673, -10.049999237), (-241.749999673, -12.599998834))
            ThreePointArc((-241.749999673, -12.599998834), (-241.808578435, -12.741420475), (-241.950000076, -12.799999237))
            Line((-241.950000076, -12.799999237), (-245.349999803, -12.799999237))
            ThreePointArc((-245.349999803, -12.799999237), (-245.774264011, -12.975735226), (-245.95, -13.399999434))
            Line((-245.95, -13.399999434), (-245.95, -14.299999626))
            ThreePointArc((-245.95, -14.299999626), (-245.891421247, -14.441421247), (-245.749999626, -14.5))
            Line((-245.749999626, -14.5), (-245.649999856, -14.5))
            ThreePointArc((-245.649999856, -14.5), (-245.50857891, -14.558578474), (-245.450000436, -14.69999942))
            Line((-245.450000436, -14.69999942), (-245.450000436, -14.799999619))
            ThreePointArc((-245.450000436, -14.799999619), (-245.39142168, -14.941421245), (-245.250000055, -15))
            Line((-245.250000055, -15), (-236.999999654, -15))
            ThreePointArc((-236.999999654, -15), (-235.585786336, -14.414213664), (-235, -13.000000346))
            Line((-235, -13.000000346), (-235, -4.749999521))
            ThreePointArc((-235, -4.749999521), (-235.058578727, -4.608577964), (-235.200000284, -4.549999237))
            Line((-235.200000284, -4.549999237), (-235.299999389, -4.549999237))
            ThreePointArc((-235.299999389, -4.549999237), (-235.441420946, -4.49142051), (-235.499999673, -4.349998953))
            Line((-235.499999673, -4.349998953), (-235.499999673, -4.249999521))
            ThreePointArc((-235.499999673, -4.249999521), (-235.5585784, -4.108577964), (-235.699999957, -4.049999237))
            Line((-235.699999957, -4.049999237), (-236.60000006, -4.049999237))
            ThreePointArc((-236.60000006, -4.049999237), (-237.024264394, -4.225735278), (-237.200000436, -4.649999613))
            Line((-237.200000436, -4.649999613), (-237.200000436, -8.049999716))
            ThreePointArc((-237.200000436, -8.049999716), (-237.258579163, -8.191421273), (-237.40000072, -8.25))
            Line((-237.40000072, -8.25), (-239.950000436, -8.25))
            Line((-239.950000436, -8.25), (-243.99553457, -4.204465866))
            Line((-243.99553457, -4.204465866), (-243.99553457, -0.899999619))
            Line((-243.99553457, -0.899999619), (-244.515147836, 0))
            Line((-244.515147836, 0), (-243.99553457, 0.899999619))
            Line((-243.99553457, 0.899999619), (-243.99553457, 4.204465866))
            Line((-243.99553457, 4.204465866), (-239.950000436, 8.25))
            Line((-239.950000436, 8.25), (-237.40000072, 8.25))
            ThreePointArc((-237.40000072, 8.25), (-237.258579163, 8.191421273), (-237.200000436, 8.049999716))
            Line((-237.200000436, 8.049999716), (-237.200000436, 4.649999613))
            ThreePointArc((-237.200000436, 4.649999613), (-237.024264394, 4.225735278), (-236.60000006, 4.049999237))
            Line((-236.60000006, 4.049999237), (-235.699999957, 4.049999237))
            ThreePointArc((-235.699999957, 4.049999237), (-235.5585784, 4.108577964), (-235.499999673, 4.249999521))
            Line((-235.499999673, 4.249999521), (-235.499999673, 4.349998953))
            ThreePointArc((-235.499999673, 4.349998953), (-235.441420946, 4.49142051), (-235.299999389, 4.549999237))
        make_face()
        with BuildLine():
            Line((-246.864070588, 4.518400903), (-248.399870476, 3.280561767))
            ThreePointArc((-248.399870476, 3.280561767), (-250, 3.65), (-251.600129524, 3.280561767))
            Line((-251.600129524, 3.280561767), (-253.135929412, 4.518400903))
            ThreePointArc((-253.135929412, 4.518400903), (-253.881002259, 3.897155561), (-254.505336892, 3.154669473))
            Line((-254.505336892, 3.154669473), (-253.280561732, 1.600129597))
            ThreePointArc((-253.280561732, 1.600129597), (-253.65, 0), (-253.280561732, -1.600129597))
            Line((-253.280561732, -1.600129597), (-254.505336892, -3.154669473))
            ThreePointArc((-254.505336892, -3.154669473), (-253.881002259, -3.897155561), (-253.135929412, -4.518400903))
            Line((-253.135929412, -4.518400903), (-251.600129524, -3.280561767))
            ThreePointArc((-251.600129524, -3.280561767), (-250, -3.65), (-248.399870476, -3.280561767))
            Line((-248.399870476, -3.280561767), (-246.864070588, -4.518400903))
            ThreePointArc((-246.864070588, -4.518400903), (-246.118997741, -3.897155561), (-245.494663108, -3.154669473))
            Line((-245.494663108, -3.154669473), (-246.719438268, -1.600129597))
            ThreePointArc((-246.719438268, -1.600129597), (-246.35, 0), (-246.719438268, 1.600129597))
            Line((-246.719438268, 1.600129597), (-245.494663108, 3.154669473))
            ThreePointArc((-245.494663108, 3.154669473), (-246.118997741, 3.897155561), (-246.864070588, 4.518400903))
        make_face(mode=Mode.SUBTRACT)
        with BuildLine():
            Line((-260.500000318, -9.499999635), (-262.7000011, -9.499999635))
            ThreePointArc((-262.7000011, -9.499999635), (-263.407107874, -9.792892851), (-263.70000109, -10.499999626))
            Line((-263.70000109, -10.499999626), (-263.70000109, -12.700000408))
            ThreePointArc((-263.70000109, -12.700000408), (-263.407107874, -13.407107182), (-262.7000011, -13.700000398))
            Line((-262.7000011, -13.700000398), (-260.500000318, -13.700000398))
            ThreePointArc((-260.500000318, -13.700000398), (-259.792893543, -13.407107182), (-259.500000327, -12.700000408))
            Line((-259.500000327, -12.700000408), (-259.500000327, -10.499999626))
            ThreePointArc((-259.500000327, -10.499999626), (-259.792893543, -9.792892851), (-260.500000318, -9.499999635))
        make_face(mode=Mode.SUBTRACT)
        with BuildLine():
            Line((-259.500000327, 12.700000408), (-259.500000327, 10.499999626))
            ThreePointArc((-259.500000327, 10.499999626), (-259.792893543, 9.792892851), (-260.500000318, 9.499999635))
            Line((-260.500000318, 9.499999635), (-262.7000011, 9.499999635))
            ThreePointArc((-262.7000011, 9.499999635), (-263.407107874, 9.792892851), (-263.70000109, 10.499999626))
            Line((-263.70000109, 10.499999626), (-263.70000109, 12.700000408))
            ThreePointArc((-263.70000109, 12.700000408), (-263.407107874, 13.407107182), (-262.7000011, 13.700000398))
            Line((-262.7000011, 13.700000398), (-260.500000318, 13.700000398))
            ThreePointArc((-260.500000318, 13.700000398), (-259.792893543, 13.407107182), (-259.500000327, 12.700000408))
        make_face(mode=Mode.SUBTRACT)
        with BuildLine():
            Line((-236.29999891, 12.700000408), (-236.29999891, 10.499999626))
            ThreePointArc((-236.29999891, 10.499999626), (-236.592892126, 9.792892851), (-237.2999989, 9.499999635))
            Line((-237.2999989, 9.499999635), (-239.499999682, 9.499999635))
            ThreePointArc((-239.499999682, 9.499999635), (-240.207106457, 9.792892851), (-240.499999673, 10.499999626))
            Line((-240.499999673, 10.499999626), (-240.499999673, 12.700000408))
            ThreePointArc((-240.499999673, 12.700000408), (-240.207106457, 13.407107182), (-239.499999682, 13.700000398))
            Line((-239.499999682, 13.700000398), (-237.2999989, 13.700000398))
            ThreePointArc((-237.2999989, 13.700000398), (-236.592892126, 13.407107182), (-236.29999891, 12.700000408))
        make_face(mode=Mode.SUBTRACT)
        with BuildLine():
            Line((-239.499999682, -9.499999635), (-237.2999989, -9.499999635))
            ThreePointArc((-237.2999989, -9.499999635), (-236.592892126, -9.792892851), (-236.29999891, -10.499999626))
            Line((-236.29999891, -10.499999626), (-236.29999891, -12.700000408))
            ThreePointArc((-236.29999891, -12.700000408), (-236.592892126, -13.407107182), (-237.2999989, -13.700000398))
            Line((-237.2999989, -13.700000398), (-239.499999682, -13.700000398))
            ThreePointArc((-239.499999682, -13.700000398), (-240.207106457, -13.407107182), (-240.499999673, -12.700000408))
            Line((-240.499999673, -12.700000408), (-240.499999673, -10.499999626))
            ThreePointArc((-240.499999673, -10.499999626), (-240.207106457, -9.792892851), (-239.499999682, -9.499999635))
        make_face(mode=Mode.SUBTRACT)
    # profile 2 of 2: a face of its own
    with BuildSketch(Plane(origin=(0, 0, 0), x_dir=(0, 0, -1), z_dir=(1, 0, 0))):
        with BuildLine():
            Line((264.700000611, 4.549999237), (264.799999716, 4.549999237))
            ThreePointArc((264.799999716, 4.549999237), (264.941421273, 4.608577964), (265, 4.749999521))
            Line((265, 4.749999521), (265, 13.000000346))
            ThreePointArc((265, 13.000000346), (264.414213664, 14.414213664), (263.000000346, 15))
            Line((263.000000346, 15), (254.749999945, 15))
            ThreePointArc((254.749999945, 15), (254.60857832, 14.941421245), (254.549999564, 14.799999619))
            Line((254.549999564, 14.799999619), (254.549999564, 14.69999942))
            ThreePointArc((254.549999564, 14.69999942), (254.49142109, 14.558578474), (254.350000144, 14.5))
            Line((254.350000144, 14.5), (254.250000374, 14.5))
            ThreePointArc((254.250000374, 14.5), (254.108578753, 14.441421247), (254.05, 14.299999626))
            Line((254.05, 14.299999626), (254.05, 13.399999434))
            ThreePointArc((254.05, 13.399999434), (254.225735989, 12.975735226), (254.650000197, 12.799999237))
            Line((254.650000197, 12.799999237), (258.049999924, 12.799999237))
            ThreePointArc((258.049999924, 12.799999237), (258.191421565, 12.741420475), (258.250000327, 12.599998834))
            Line((258.250000327, 12.599998834), (258.250000327, 10.049999237))
            Line((258.250000327, 10.049999237), (254.204466193, 6))
            Line((254.204466193, 6), (250.899999946, 6))
            Line((250.899999946, 6), (250, 5.484851837))
            Line((250, 5.484851837), (249.100000054, 6))
            Line((249.100000054, 6), (245.795533807, 6))
            Line((245.795533807, 6), (241.749999673, 10.049999237))
            Line((241.749999673, 10.049999237), (241.749999673, 12.599998834))
            ThreePointArc((241.749999673, 12.599998834), (241.808578435, 12.741420475), (241.950000076, 12.799999237))
            Line((241.950000076, 12.799999237), (245.349999803, 12.799999237))
            ThreePointArc((245.349999803, 12.799999237), (245.774264011, 12.975735226), (245.95, 13.399999434))
            Line((245.95, 13.399999434), (245.95, 14.299999626))
            ThreePointArc((245.95, 14.299999626), (245.891421247, 14.441421247), (245.749999626, 14.5))
            Line((245.749999626, 14.5), (245.649999856, 14.5))
            ThreePointArc((245.649999856, 14.5), (245.50857891, 14.558578474), (245.450000436, 14.69999942))
            Line((245.450000436, 14.69999942), (245.450000436, 14.799999619))
            ThreePointArc((245.450000436, 14.799999619), (245.39142168, 14.941421245), (245.250000055, 15))
            Line((245.250000055, 15), (236.999999654, 15))
            ThreePointArc((236.999999654, 15), (235.585786336, 14.414213664), (235, 13.000000346))
            Line((235, 13.000000346), (235, 4.749999521))
            ThreePointArc((235, 4.749999521), (235.058578727, 4.608577964), (235.200000284, 4.549999237))
            Line((235.200000284, 4.549999237), (235.299999389, 4.549999237))
            ThreePointArc((235.299999389, 4.549999237), (235.441420946, 4.49142051), (235.499999673, 4.349998953))
            Line((235.499999673, 4.349998953), (235.499999673, 4.249999521))
            ThreePointArc((235.499999673, 4.249999521), (235.5585784, 4.108577964), (235.699999957, 4.049999237))
            Line((235.699999957, 4.049999237), (236.60000006, 4.049999237))
            ThreePointArc((236.60000006, 4.049999237), (237.024264394, 4.225735278), (237.200000436, 4.649999613))
            Line((237.200000436, 4.649999613), (237.200000436, 8.049999716))
            ThreePointArc((237.200000436, 8.049999716), (237.258579163, 8.191421273), (237.40000072, 8.25))
            Line((237.40000072, 8.25), (239.950000436, 8.25))
            Line((239.950000436, 8.25), (243.99553457, 4.204465866))
            Line((243.99553457, 4.204465866), (243.99553457, 0.899999619))
            Line((243.99553457, 0.899999619), (244.515147836, 0))
            Line((244.515147836, 0), (243.99553457, -0.899999619))
            Line((243.99553457, -0.899999619), (243.99553457, -4.204465866))
            Line((243.99553457, -4.204465866), (239.950000436, -8.25))
            Line((239.950000436, -8.25), (237.40000072, -8.25))
            ThreePointArc((237.40000072, -8.25), (237.258579163, -8.191421273), (237.200000436, -8.049999716))
            Line((237.200000436, -8.049999716), (237.200000436, -4.649999613))
            ThreePointArc((237.200000436, -4.649999613), (237.024264394, -4.225735278), (236.60000006, -4.049999237))
            Line((236.60000006, -4.049999237), (235.699999957, -4.049999237))
            ThreePointArc((235.699999957, -4.049999237), (235.5585784, -4.108577964), (235.499999673, -4.249999521))
            Line((235.499999673, -4.249999521), (235.499999673, -4.349998953))
            ThreePointArc((235.499999673, -4.349998953), (235.441420946, -4.49142051), (235.299999389, -4.549999237))
            Line((235.299999389, -4.549999237), (235.200000284, -4.549999237))
            ThreePointArc((235.200000284, -4.549999237), (235.058578727, -4.608577964), (235, -4.749999521))
            Line((235, -4.749999521), (235, -13.000000346))
            ThreePointArc((235, -13.000000346), (235.585786336, -14.414213664), (236.999999654, -15))
            Line((236.999999654, -15), (245.250000055, -15))
            ThreePointArc((245.250000055, -15), (245.39142168, -14.941421245), (245.450000436, -14.799999619))
            Line((245.450000436, -14.799999619), (245.450000436, -14.69999942))
            ThreePointArc((245.450000436, -14.69999942), (245.50857891, -14.558578474), (245.649999856, -14.5))
            Line((245.649999856, -14.5), (245.749999626, -14.5))
            ThreePointArc((245.749999626, -14.5), (245.891421247, -14.441421247), (245.95, -14.299999626))
            Line((245.95, -14.299999626), (245.95, -13.399999434))
            ThreePointArc((245.95, -13.399999434), (245.774264011, -12.975735226), (245.349999803, -12.799999237))
            Line((245.349999803, -12.799999237), (241.950000076, -12.799999237))
            ThreePointArc((241.950000076, -12.799999237), (241.808578435, -12.741420475), (241.749999673, -12.599998834))
            Line((241.749999673, -12.599998834), (241.749999673, -10.049999237))
            Line((241.749999673, -10.049999237), (245.795533807, -6))
            Line((245.795533807, -6), (249.100000054, -6))
            Line((249.100000054, -6), (250, -5.484851837))
            Line((250, -5.484851837), (250.899999946, -6))
            Line((250.899999946, -6), (254.204466193, -6))
            Line((254.204466193, -6), (258.250000327, -10.049999237))
            Line((258.250000327, -10.049999237), (258.250000327, -12.599998834))
            ThreePointArc((258.250000327, -12.599998834), (258.191421565, -12.741420475), (258.049999924, -12.799999237))
            Line((258.049999924, -12.799999237), (254.650000197, -12.799999237))
            ThreePointArc((254.650000197, -12.799999237), (254.225735989, -12.975735226), (254.05, -13.399999434))
            Line((254.05, -13.399999434), (254.05, -14.299999626))
            ThreePointArc((254.05, -14.299999626), (254.108578753, -14.441421247), (254.250000374, -14.5))
            Line((254.250000374, -14.5), (254.350000144, -14.5))
            ThreePointArc((254.350000144, -14.5), (254.49142109, -14.558578474), (254.549999564, -14.69999942))
            Line((254.549999564, -14.69999942), (254.549999564, -14.799999619))
            ThreePointArc((254.549999564, -14.799999619), (254.60857832, -14.941421245), (254.749999945, -15))
            Line((254.749999945, -15), (263.000000346, -15))
            ThreePointArc((263.000000346, -15), (264.414213664, -14.414213664), (265, -13.000000346))
            Line((265, -13.000000346), (265, -4.749999521))
            ThreePointArc((265, -4.749999521), (264.941421273, -4.608577964), (264.799999716, -4.549999237))
            Line((264.799999716, -4.549999237), (264.700000611, -4.549999237))
            ThreePointArc((264.700000611, -4.549999237), (264.558579054, -4.49142051), (264.500000327, -4.349998953))
            Line((264.500000327, -4.349998953), (264.500000327, -4.249999521))
            ThreePointArc((264.500000327, -4.249999521), (264.4414216, -4.108577964), (264.300000043, -4.049999237))
            Line((264.300000043, -4.049999237), (263.39999994, -4.049999237))
            ThreePointArc((263.39999994, -4.049999237), (262.975735606, -4.225735278), (262.799999564, -4.649999613))
            Line((262.799999564, -4.649999613), (262.799999564, -8.049999716))
            ThreePointArc((262.799999564, -8.049999716), (262.741420837, -8.191421273), (262.59999928, -8.25))
            Line((262.59999928, -8.25), (260.049999564, -8.25))
            Line((260.049999564, -8.25), (256.00446543, -4.204465866))
            Line((256.00446543, -4.204465866), (256.00446543, -0.899999619))
            Line((256.00446543, -0.899999619), (255.484852164, 0))
            Line((255.484852164, 0), (256.00446543, 0.899999619))
            Line((256.00446543, 0.899999619), (256.00446543, 4.204465866))
            Line((256.00446543, 4.204465866), (260.049999564, 8.25))
            Line((260.049999564, 8.25), (262.59999928, 8.25))
            ThreePointArc((262.59999928, 8.25), (262.741420837, 8.191421273), (262.799999564, 8.049999716))
            Line((262.799999564, 8.049999716), (262.799999564, 4.649999613))
            ThreePointArc((262.799999564, 4.649999613), (262.975735606, 4.225735278), (263.39999994, 4.049999237))
            Line((263.39999994, 4.049999237), (264.300000043, 4.049999237))
            ThreePointArc((264.300000043, 4.049999237), (264.4414216, 4.108577964), (264.500000327, 4.249999521))
            Line((264.500000327, 4.249999521), (264.500000327, 4.349998953))
            ThreePointArc((264.500000327, 4.349998953), (264.558579054, 4.49142051), (264.700000611, 4.549999237))
        make_face()
        with BuildLine():
            Line((253.135929412, 4.518400903), (251.600129524, 3.280561767))
            ThreePointArc((251.600129524, 3.280561767), (250, 3.65), (248.399870476, 3.280561767))
            Line((248.399870476, 3.280561767), (246.864070588, 4.518400903))
            ThreePointArc((246.864070588, 4.518400903), (246.118997741, 3.897155561), (245.494663108, 3.154669473))
            Line((245.494663108, 3.154669473), (246.719438268, 1.600129597))
            ThreePointArc((246.719438268, 1.600129597), (246.35, 0), (246.719438268, -1.600129597))
            Line((246.719438268, -1.600129597), (245.494663108, -3.154669473))
            ThreePointArc((245.494663108, -3.154669473), (246.118997741, -3.897155561), (246.864070588, -4.518400903))
            Line((246.864070588, -4.518400903), (248.399870476, -3.280561767))
            ThreePointArc((248.399870476, -3.280561767), (250, -3.65), (251.600129524, -3.280561767))
            Line((251.600129524, -3.280561767), (253.135929412, -4.518400903))
            ThreePointArc((253.135929412, -4.518400903), (253.881002259, -3.897155561), (254.505336892, -3.154669473))
            Line((254.505336892, -3.154669473), (253.280561732, -1.600129597))
            ThreePointArc((253.280561732, -1.600129597), (253.65, 0), (253.280561732, 1.600129597))
            Line((253.280561732, 1.600129597), (254.505336892, 3.154669473))
            ThreePointArc((254.505336892, 3.154669473), (253.881002259, 3.897155561), (253.135929412, 4.518400903))
        make_face(mode=Mode.SUBTRACT)
        with BuildLine():
            Line((239.499999682, -9.499999635), (237.2999989, -9.499999635))
            ThreePointArc((237.2999989, -9.499999635), (236.592892126, -9.792892851), (236.29999891, -10.499999626))
            Line((236.29999891, -10.499999626), (236.29999891, -12.700000408))
            ThreePointArc((236.29999891, -12.700000408), (236.592892126, -13.407107182), (237.2999989, -13.700000398))
            Line((237.2999989, -13.700000398), (239.499999682, -13.700000398))
            ThreePointArc((239.499999682, -13.700000398), (240.207106457, -13.407107182), (240.499999673, -12.700000408))
            Line((240.499999673, -12.700000408), (240.499999673, -10.499999626))
            ThreePointArc((240.499999673, -10.499999626), (240.207106457, -9.792892851), (239.499999682, -9.499999635))
        make_face(mode=Mode.SUBTRACT)
        with BuildLine():
            Line((240.499999673, 12.700000408), (240.499999673, 10.499999626))
            ThreePointArc((240.499999673, 10.499999626), (240.207106457, 9.792892851), (239.499999682, 9.499999635))
            Line((239.499999682, 9.499999635), (237.2999989, 9.499999635))
            ThreePointArc((237.2999989, 9.499999635), (236.592892126, 9.792892851), (236.29999891, 10.499999626))
            Line((236.29999891, 10.499999626), (236.29999891, 12.700000408))
            ThreePointArc((236.29999891, 12.700000408), (236.592892126, 13.407107182), (237.2999989, 13.700000398))
            Line((237.2999989, 13.700000398), (239.499999682, 13.700000398))
            ThreePointArc((239.499999682, 13.700000398), (240.207106457, 13.407107182), (240.499999673, 12.700000408))
        make_face(mode=Mode.SUBTRACT)
        with BuildLine():
            Line((263.70000109, 12.700000408), (263.70000109, 10.499999626))
            ThreePointArc((263.70000109, 10.499999626), (263.407107874, 9.792892851), (262.7000011, 9.499999635))
            Line((262.7000011, 9.499999635), (260.500000318, 9.499999635))
            ThreePointArc((260.500000318, 9.499999635), (259.792893543, 9.792892851), (259.500000327, 10.499999626))
            Line((259.500000327, 10.499999626), (259.500000327, 12.700000408))
            ThreePointArc((259.500000327, 12.700000408), (259.792893543, 13.407107182), (260.500000318, 13.700000398))
            Line((260.500000318, 13.700000398), (262.7000011, 13.700000398))
            ThreePointArc((262.7000011, 13.700000398), (263.407107874, 13.407107182), (263.70000109, 12.700000408))
        make_face(mode=Mode.SUBTRACT)
        with BuildLine():
            Line((260.500000318, -9.499999635), (262.7000011, -9.499999635))
            ThreePointArc((262.7000011, -9.499999635), (263.407107874, -9.792892851), (263.70000109, -10.499999626))
            Line((263.70000109, -10.499999626), (263.70000109, -12.700000408))
            ThreePointArc((263.70000109, -12.700000408), (263.407107874, -13.407107182), (262.7000011, -13.700000398))
            Line((262.7000011, -13.700000398), (260.500000318, -13.700000398))
            ThreePointArc((260.500000318, -13.700000398), (259.792893543, -13.407107182), (259.500000327, -12.700000408))
            Line((259.500000327, -12.700000408), (259.500000327, -10.499999626))
            ThreePointArc((259.500000327, -10.499999626), (259.792893543, -9.792892851), (260.500000318, -9.499999635))
        make_face(mode=Mode.SUBTRACT)
    extrude(amount=BOSS_EXTRUDE2_DEPTH, both=True)


with BuildPart() as body_2_2:
    # Sketch16 → Boss-Extrude3 (new body)
    with BuildSketch(Plane.ZY.offset(365)):
        with Locations((250, 30.384042372)):
            Circle(SKETCH16_R)
    extrude(amount=-BOSS_EXTRUDE3_DEPTH)


with BuildPart() as body_3:
    # Sketch16 → Boss-Extrude3 2 (new body)
    with BuildSketch(Plane.ZY.offset(365)):
        with Locations((-250, 30.384042372)):
            Circle(SKETCH16_R)
    extrude(amount=-BOSS_EXTRUDE3_2_DEPTH)


solid = Compound([body_2_2.part, body_3.part])
